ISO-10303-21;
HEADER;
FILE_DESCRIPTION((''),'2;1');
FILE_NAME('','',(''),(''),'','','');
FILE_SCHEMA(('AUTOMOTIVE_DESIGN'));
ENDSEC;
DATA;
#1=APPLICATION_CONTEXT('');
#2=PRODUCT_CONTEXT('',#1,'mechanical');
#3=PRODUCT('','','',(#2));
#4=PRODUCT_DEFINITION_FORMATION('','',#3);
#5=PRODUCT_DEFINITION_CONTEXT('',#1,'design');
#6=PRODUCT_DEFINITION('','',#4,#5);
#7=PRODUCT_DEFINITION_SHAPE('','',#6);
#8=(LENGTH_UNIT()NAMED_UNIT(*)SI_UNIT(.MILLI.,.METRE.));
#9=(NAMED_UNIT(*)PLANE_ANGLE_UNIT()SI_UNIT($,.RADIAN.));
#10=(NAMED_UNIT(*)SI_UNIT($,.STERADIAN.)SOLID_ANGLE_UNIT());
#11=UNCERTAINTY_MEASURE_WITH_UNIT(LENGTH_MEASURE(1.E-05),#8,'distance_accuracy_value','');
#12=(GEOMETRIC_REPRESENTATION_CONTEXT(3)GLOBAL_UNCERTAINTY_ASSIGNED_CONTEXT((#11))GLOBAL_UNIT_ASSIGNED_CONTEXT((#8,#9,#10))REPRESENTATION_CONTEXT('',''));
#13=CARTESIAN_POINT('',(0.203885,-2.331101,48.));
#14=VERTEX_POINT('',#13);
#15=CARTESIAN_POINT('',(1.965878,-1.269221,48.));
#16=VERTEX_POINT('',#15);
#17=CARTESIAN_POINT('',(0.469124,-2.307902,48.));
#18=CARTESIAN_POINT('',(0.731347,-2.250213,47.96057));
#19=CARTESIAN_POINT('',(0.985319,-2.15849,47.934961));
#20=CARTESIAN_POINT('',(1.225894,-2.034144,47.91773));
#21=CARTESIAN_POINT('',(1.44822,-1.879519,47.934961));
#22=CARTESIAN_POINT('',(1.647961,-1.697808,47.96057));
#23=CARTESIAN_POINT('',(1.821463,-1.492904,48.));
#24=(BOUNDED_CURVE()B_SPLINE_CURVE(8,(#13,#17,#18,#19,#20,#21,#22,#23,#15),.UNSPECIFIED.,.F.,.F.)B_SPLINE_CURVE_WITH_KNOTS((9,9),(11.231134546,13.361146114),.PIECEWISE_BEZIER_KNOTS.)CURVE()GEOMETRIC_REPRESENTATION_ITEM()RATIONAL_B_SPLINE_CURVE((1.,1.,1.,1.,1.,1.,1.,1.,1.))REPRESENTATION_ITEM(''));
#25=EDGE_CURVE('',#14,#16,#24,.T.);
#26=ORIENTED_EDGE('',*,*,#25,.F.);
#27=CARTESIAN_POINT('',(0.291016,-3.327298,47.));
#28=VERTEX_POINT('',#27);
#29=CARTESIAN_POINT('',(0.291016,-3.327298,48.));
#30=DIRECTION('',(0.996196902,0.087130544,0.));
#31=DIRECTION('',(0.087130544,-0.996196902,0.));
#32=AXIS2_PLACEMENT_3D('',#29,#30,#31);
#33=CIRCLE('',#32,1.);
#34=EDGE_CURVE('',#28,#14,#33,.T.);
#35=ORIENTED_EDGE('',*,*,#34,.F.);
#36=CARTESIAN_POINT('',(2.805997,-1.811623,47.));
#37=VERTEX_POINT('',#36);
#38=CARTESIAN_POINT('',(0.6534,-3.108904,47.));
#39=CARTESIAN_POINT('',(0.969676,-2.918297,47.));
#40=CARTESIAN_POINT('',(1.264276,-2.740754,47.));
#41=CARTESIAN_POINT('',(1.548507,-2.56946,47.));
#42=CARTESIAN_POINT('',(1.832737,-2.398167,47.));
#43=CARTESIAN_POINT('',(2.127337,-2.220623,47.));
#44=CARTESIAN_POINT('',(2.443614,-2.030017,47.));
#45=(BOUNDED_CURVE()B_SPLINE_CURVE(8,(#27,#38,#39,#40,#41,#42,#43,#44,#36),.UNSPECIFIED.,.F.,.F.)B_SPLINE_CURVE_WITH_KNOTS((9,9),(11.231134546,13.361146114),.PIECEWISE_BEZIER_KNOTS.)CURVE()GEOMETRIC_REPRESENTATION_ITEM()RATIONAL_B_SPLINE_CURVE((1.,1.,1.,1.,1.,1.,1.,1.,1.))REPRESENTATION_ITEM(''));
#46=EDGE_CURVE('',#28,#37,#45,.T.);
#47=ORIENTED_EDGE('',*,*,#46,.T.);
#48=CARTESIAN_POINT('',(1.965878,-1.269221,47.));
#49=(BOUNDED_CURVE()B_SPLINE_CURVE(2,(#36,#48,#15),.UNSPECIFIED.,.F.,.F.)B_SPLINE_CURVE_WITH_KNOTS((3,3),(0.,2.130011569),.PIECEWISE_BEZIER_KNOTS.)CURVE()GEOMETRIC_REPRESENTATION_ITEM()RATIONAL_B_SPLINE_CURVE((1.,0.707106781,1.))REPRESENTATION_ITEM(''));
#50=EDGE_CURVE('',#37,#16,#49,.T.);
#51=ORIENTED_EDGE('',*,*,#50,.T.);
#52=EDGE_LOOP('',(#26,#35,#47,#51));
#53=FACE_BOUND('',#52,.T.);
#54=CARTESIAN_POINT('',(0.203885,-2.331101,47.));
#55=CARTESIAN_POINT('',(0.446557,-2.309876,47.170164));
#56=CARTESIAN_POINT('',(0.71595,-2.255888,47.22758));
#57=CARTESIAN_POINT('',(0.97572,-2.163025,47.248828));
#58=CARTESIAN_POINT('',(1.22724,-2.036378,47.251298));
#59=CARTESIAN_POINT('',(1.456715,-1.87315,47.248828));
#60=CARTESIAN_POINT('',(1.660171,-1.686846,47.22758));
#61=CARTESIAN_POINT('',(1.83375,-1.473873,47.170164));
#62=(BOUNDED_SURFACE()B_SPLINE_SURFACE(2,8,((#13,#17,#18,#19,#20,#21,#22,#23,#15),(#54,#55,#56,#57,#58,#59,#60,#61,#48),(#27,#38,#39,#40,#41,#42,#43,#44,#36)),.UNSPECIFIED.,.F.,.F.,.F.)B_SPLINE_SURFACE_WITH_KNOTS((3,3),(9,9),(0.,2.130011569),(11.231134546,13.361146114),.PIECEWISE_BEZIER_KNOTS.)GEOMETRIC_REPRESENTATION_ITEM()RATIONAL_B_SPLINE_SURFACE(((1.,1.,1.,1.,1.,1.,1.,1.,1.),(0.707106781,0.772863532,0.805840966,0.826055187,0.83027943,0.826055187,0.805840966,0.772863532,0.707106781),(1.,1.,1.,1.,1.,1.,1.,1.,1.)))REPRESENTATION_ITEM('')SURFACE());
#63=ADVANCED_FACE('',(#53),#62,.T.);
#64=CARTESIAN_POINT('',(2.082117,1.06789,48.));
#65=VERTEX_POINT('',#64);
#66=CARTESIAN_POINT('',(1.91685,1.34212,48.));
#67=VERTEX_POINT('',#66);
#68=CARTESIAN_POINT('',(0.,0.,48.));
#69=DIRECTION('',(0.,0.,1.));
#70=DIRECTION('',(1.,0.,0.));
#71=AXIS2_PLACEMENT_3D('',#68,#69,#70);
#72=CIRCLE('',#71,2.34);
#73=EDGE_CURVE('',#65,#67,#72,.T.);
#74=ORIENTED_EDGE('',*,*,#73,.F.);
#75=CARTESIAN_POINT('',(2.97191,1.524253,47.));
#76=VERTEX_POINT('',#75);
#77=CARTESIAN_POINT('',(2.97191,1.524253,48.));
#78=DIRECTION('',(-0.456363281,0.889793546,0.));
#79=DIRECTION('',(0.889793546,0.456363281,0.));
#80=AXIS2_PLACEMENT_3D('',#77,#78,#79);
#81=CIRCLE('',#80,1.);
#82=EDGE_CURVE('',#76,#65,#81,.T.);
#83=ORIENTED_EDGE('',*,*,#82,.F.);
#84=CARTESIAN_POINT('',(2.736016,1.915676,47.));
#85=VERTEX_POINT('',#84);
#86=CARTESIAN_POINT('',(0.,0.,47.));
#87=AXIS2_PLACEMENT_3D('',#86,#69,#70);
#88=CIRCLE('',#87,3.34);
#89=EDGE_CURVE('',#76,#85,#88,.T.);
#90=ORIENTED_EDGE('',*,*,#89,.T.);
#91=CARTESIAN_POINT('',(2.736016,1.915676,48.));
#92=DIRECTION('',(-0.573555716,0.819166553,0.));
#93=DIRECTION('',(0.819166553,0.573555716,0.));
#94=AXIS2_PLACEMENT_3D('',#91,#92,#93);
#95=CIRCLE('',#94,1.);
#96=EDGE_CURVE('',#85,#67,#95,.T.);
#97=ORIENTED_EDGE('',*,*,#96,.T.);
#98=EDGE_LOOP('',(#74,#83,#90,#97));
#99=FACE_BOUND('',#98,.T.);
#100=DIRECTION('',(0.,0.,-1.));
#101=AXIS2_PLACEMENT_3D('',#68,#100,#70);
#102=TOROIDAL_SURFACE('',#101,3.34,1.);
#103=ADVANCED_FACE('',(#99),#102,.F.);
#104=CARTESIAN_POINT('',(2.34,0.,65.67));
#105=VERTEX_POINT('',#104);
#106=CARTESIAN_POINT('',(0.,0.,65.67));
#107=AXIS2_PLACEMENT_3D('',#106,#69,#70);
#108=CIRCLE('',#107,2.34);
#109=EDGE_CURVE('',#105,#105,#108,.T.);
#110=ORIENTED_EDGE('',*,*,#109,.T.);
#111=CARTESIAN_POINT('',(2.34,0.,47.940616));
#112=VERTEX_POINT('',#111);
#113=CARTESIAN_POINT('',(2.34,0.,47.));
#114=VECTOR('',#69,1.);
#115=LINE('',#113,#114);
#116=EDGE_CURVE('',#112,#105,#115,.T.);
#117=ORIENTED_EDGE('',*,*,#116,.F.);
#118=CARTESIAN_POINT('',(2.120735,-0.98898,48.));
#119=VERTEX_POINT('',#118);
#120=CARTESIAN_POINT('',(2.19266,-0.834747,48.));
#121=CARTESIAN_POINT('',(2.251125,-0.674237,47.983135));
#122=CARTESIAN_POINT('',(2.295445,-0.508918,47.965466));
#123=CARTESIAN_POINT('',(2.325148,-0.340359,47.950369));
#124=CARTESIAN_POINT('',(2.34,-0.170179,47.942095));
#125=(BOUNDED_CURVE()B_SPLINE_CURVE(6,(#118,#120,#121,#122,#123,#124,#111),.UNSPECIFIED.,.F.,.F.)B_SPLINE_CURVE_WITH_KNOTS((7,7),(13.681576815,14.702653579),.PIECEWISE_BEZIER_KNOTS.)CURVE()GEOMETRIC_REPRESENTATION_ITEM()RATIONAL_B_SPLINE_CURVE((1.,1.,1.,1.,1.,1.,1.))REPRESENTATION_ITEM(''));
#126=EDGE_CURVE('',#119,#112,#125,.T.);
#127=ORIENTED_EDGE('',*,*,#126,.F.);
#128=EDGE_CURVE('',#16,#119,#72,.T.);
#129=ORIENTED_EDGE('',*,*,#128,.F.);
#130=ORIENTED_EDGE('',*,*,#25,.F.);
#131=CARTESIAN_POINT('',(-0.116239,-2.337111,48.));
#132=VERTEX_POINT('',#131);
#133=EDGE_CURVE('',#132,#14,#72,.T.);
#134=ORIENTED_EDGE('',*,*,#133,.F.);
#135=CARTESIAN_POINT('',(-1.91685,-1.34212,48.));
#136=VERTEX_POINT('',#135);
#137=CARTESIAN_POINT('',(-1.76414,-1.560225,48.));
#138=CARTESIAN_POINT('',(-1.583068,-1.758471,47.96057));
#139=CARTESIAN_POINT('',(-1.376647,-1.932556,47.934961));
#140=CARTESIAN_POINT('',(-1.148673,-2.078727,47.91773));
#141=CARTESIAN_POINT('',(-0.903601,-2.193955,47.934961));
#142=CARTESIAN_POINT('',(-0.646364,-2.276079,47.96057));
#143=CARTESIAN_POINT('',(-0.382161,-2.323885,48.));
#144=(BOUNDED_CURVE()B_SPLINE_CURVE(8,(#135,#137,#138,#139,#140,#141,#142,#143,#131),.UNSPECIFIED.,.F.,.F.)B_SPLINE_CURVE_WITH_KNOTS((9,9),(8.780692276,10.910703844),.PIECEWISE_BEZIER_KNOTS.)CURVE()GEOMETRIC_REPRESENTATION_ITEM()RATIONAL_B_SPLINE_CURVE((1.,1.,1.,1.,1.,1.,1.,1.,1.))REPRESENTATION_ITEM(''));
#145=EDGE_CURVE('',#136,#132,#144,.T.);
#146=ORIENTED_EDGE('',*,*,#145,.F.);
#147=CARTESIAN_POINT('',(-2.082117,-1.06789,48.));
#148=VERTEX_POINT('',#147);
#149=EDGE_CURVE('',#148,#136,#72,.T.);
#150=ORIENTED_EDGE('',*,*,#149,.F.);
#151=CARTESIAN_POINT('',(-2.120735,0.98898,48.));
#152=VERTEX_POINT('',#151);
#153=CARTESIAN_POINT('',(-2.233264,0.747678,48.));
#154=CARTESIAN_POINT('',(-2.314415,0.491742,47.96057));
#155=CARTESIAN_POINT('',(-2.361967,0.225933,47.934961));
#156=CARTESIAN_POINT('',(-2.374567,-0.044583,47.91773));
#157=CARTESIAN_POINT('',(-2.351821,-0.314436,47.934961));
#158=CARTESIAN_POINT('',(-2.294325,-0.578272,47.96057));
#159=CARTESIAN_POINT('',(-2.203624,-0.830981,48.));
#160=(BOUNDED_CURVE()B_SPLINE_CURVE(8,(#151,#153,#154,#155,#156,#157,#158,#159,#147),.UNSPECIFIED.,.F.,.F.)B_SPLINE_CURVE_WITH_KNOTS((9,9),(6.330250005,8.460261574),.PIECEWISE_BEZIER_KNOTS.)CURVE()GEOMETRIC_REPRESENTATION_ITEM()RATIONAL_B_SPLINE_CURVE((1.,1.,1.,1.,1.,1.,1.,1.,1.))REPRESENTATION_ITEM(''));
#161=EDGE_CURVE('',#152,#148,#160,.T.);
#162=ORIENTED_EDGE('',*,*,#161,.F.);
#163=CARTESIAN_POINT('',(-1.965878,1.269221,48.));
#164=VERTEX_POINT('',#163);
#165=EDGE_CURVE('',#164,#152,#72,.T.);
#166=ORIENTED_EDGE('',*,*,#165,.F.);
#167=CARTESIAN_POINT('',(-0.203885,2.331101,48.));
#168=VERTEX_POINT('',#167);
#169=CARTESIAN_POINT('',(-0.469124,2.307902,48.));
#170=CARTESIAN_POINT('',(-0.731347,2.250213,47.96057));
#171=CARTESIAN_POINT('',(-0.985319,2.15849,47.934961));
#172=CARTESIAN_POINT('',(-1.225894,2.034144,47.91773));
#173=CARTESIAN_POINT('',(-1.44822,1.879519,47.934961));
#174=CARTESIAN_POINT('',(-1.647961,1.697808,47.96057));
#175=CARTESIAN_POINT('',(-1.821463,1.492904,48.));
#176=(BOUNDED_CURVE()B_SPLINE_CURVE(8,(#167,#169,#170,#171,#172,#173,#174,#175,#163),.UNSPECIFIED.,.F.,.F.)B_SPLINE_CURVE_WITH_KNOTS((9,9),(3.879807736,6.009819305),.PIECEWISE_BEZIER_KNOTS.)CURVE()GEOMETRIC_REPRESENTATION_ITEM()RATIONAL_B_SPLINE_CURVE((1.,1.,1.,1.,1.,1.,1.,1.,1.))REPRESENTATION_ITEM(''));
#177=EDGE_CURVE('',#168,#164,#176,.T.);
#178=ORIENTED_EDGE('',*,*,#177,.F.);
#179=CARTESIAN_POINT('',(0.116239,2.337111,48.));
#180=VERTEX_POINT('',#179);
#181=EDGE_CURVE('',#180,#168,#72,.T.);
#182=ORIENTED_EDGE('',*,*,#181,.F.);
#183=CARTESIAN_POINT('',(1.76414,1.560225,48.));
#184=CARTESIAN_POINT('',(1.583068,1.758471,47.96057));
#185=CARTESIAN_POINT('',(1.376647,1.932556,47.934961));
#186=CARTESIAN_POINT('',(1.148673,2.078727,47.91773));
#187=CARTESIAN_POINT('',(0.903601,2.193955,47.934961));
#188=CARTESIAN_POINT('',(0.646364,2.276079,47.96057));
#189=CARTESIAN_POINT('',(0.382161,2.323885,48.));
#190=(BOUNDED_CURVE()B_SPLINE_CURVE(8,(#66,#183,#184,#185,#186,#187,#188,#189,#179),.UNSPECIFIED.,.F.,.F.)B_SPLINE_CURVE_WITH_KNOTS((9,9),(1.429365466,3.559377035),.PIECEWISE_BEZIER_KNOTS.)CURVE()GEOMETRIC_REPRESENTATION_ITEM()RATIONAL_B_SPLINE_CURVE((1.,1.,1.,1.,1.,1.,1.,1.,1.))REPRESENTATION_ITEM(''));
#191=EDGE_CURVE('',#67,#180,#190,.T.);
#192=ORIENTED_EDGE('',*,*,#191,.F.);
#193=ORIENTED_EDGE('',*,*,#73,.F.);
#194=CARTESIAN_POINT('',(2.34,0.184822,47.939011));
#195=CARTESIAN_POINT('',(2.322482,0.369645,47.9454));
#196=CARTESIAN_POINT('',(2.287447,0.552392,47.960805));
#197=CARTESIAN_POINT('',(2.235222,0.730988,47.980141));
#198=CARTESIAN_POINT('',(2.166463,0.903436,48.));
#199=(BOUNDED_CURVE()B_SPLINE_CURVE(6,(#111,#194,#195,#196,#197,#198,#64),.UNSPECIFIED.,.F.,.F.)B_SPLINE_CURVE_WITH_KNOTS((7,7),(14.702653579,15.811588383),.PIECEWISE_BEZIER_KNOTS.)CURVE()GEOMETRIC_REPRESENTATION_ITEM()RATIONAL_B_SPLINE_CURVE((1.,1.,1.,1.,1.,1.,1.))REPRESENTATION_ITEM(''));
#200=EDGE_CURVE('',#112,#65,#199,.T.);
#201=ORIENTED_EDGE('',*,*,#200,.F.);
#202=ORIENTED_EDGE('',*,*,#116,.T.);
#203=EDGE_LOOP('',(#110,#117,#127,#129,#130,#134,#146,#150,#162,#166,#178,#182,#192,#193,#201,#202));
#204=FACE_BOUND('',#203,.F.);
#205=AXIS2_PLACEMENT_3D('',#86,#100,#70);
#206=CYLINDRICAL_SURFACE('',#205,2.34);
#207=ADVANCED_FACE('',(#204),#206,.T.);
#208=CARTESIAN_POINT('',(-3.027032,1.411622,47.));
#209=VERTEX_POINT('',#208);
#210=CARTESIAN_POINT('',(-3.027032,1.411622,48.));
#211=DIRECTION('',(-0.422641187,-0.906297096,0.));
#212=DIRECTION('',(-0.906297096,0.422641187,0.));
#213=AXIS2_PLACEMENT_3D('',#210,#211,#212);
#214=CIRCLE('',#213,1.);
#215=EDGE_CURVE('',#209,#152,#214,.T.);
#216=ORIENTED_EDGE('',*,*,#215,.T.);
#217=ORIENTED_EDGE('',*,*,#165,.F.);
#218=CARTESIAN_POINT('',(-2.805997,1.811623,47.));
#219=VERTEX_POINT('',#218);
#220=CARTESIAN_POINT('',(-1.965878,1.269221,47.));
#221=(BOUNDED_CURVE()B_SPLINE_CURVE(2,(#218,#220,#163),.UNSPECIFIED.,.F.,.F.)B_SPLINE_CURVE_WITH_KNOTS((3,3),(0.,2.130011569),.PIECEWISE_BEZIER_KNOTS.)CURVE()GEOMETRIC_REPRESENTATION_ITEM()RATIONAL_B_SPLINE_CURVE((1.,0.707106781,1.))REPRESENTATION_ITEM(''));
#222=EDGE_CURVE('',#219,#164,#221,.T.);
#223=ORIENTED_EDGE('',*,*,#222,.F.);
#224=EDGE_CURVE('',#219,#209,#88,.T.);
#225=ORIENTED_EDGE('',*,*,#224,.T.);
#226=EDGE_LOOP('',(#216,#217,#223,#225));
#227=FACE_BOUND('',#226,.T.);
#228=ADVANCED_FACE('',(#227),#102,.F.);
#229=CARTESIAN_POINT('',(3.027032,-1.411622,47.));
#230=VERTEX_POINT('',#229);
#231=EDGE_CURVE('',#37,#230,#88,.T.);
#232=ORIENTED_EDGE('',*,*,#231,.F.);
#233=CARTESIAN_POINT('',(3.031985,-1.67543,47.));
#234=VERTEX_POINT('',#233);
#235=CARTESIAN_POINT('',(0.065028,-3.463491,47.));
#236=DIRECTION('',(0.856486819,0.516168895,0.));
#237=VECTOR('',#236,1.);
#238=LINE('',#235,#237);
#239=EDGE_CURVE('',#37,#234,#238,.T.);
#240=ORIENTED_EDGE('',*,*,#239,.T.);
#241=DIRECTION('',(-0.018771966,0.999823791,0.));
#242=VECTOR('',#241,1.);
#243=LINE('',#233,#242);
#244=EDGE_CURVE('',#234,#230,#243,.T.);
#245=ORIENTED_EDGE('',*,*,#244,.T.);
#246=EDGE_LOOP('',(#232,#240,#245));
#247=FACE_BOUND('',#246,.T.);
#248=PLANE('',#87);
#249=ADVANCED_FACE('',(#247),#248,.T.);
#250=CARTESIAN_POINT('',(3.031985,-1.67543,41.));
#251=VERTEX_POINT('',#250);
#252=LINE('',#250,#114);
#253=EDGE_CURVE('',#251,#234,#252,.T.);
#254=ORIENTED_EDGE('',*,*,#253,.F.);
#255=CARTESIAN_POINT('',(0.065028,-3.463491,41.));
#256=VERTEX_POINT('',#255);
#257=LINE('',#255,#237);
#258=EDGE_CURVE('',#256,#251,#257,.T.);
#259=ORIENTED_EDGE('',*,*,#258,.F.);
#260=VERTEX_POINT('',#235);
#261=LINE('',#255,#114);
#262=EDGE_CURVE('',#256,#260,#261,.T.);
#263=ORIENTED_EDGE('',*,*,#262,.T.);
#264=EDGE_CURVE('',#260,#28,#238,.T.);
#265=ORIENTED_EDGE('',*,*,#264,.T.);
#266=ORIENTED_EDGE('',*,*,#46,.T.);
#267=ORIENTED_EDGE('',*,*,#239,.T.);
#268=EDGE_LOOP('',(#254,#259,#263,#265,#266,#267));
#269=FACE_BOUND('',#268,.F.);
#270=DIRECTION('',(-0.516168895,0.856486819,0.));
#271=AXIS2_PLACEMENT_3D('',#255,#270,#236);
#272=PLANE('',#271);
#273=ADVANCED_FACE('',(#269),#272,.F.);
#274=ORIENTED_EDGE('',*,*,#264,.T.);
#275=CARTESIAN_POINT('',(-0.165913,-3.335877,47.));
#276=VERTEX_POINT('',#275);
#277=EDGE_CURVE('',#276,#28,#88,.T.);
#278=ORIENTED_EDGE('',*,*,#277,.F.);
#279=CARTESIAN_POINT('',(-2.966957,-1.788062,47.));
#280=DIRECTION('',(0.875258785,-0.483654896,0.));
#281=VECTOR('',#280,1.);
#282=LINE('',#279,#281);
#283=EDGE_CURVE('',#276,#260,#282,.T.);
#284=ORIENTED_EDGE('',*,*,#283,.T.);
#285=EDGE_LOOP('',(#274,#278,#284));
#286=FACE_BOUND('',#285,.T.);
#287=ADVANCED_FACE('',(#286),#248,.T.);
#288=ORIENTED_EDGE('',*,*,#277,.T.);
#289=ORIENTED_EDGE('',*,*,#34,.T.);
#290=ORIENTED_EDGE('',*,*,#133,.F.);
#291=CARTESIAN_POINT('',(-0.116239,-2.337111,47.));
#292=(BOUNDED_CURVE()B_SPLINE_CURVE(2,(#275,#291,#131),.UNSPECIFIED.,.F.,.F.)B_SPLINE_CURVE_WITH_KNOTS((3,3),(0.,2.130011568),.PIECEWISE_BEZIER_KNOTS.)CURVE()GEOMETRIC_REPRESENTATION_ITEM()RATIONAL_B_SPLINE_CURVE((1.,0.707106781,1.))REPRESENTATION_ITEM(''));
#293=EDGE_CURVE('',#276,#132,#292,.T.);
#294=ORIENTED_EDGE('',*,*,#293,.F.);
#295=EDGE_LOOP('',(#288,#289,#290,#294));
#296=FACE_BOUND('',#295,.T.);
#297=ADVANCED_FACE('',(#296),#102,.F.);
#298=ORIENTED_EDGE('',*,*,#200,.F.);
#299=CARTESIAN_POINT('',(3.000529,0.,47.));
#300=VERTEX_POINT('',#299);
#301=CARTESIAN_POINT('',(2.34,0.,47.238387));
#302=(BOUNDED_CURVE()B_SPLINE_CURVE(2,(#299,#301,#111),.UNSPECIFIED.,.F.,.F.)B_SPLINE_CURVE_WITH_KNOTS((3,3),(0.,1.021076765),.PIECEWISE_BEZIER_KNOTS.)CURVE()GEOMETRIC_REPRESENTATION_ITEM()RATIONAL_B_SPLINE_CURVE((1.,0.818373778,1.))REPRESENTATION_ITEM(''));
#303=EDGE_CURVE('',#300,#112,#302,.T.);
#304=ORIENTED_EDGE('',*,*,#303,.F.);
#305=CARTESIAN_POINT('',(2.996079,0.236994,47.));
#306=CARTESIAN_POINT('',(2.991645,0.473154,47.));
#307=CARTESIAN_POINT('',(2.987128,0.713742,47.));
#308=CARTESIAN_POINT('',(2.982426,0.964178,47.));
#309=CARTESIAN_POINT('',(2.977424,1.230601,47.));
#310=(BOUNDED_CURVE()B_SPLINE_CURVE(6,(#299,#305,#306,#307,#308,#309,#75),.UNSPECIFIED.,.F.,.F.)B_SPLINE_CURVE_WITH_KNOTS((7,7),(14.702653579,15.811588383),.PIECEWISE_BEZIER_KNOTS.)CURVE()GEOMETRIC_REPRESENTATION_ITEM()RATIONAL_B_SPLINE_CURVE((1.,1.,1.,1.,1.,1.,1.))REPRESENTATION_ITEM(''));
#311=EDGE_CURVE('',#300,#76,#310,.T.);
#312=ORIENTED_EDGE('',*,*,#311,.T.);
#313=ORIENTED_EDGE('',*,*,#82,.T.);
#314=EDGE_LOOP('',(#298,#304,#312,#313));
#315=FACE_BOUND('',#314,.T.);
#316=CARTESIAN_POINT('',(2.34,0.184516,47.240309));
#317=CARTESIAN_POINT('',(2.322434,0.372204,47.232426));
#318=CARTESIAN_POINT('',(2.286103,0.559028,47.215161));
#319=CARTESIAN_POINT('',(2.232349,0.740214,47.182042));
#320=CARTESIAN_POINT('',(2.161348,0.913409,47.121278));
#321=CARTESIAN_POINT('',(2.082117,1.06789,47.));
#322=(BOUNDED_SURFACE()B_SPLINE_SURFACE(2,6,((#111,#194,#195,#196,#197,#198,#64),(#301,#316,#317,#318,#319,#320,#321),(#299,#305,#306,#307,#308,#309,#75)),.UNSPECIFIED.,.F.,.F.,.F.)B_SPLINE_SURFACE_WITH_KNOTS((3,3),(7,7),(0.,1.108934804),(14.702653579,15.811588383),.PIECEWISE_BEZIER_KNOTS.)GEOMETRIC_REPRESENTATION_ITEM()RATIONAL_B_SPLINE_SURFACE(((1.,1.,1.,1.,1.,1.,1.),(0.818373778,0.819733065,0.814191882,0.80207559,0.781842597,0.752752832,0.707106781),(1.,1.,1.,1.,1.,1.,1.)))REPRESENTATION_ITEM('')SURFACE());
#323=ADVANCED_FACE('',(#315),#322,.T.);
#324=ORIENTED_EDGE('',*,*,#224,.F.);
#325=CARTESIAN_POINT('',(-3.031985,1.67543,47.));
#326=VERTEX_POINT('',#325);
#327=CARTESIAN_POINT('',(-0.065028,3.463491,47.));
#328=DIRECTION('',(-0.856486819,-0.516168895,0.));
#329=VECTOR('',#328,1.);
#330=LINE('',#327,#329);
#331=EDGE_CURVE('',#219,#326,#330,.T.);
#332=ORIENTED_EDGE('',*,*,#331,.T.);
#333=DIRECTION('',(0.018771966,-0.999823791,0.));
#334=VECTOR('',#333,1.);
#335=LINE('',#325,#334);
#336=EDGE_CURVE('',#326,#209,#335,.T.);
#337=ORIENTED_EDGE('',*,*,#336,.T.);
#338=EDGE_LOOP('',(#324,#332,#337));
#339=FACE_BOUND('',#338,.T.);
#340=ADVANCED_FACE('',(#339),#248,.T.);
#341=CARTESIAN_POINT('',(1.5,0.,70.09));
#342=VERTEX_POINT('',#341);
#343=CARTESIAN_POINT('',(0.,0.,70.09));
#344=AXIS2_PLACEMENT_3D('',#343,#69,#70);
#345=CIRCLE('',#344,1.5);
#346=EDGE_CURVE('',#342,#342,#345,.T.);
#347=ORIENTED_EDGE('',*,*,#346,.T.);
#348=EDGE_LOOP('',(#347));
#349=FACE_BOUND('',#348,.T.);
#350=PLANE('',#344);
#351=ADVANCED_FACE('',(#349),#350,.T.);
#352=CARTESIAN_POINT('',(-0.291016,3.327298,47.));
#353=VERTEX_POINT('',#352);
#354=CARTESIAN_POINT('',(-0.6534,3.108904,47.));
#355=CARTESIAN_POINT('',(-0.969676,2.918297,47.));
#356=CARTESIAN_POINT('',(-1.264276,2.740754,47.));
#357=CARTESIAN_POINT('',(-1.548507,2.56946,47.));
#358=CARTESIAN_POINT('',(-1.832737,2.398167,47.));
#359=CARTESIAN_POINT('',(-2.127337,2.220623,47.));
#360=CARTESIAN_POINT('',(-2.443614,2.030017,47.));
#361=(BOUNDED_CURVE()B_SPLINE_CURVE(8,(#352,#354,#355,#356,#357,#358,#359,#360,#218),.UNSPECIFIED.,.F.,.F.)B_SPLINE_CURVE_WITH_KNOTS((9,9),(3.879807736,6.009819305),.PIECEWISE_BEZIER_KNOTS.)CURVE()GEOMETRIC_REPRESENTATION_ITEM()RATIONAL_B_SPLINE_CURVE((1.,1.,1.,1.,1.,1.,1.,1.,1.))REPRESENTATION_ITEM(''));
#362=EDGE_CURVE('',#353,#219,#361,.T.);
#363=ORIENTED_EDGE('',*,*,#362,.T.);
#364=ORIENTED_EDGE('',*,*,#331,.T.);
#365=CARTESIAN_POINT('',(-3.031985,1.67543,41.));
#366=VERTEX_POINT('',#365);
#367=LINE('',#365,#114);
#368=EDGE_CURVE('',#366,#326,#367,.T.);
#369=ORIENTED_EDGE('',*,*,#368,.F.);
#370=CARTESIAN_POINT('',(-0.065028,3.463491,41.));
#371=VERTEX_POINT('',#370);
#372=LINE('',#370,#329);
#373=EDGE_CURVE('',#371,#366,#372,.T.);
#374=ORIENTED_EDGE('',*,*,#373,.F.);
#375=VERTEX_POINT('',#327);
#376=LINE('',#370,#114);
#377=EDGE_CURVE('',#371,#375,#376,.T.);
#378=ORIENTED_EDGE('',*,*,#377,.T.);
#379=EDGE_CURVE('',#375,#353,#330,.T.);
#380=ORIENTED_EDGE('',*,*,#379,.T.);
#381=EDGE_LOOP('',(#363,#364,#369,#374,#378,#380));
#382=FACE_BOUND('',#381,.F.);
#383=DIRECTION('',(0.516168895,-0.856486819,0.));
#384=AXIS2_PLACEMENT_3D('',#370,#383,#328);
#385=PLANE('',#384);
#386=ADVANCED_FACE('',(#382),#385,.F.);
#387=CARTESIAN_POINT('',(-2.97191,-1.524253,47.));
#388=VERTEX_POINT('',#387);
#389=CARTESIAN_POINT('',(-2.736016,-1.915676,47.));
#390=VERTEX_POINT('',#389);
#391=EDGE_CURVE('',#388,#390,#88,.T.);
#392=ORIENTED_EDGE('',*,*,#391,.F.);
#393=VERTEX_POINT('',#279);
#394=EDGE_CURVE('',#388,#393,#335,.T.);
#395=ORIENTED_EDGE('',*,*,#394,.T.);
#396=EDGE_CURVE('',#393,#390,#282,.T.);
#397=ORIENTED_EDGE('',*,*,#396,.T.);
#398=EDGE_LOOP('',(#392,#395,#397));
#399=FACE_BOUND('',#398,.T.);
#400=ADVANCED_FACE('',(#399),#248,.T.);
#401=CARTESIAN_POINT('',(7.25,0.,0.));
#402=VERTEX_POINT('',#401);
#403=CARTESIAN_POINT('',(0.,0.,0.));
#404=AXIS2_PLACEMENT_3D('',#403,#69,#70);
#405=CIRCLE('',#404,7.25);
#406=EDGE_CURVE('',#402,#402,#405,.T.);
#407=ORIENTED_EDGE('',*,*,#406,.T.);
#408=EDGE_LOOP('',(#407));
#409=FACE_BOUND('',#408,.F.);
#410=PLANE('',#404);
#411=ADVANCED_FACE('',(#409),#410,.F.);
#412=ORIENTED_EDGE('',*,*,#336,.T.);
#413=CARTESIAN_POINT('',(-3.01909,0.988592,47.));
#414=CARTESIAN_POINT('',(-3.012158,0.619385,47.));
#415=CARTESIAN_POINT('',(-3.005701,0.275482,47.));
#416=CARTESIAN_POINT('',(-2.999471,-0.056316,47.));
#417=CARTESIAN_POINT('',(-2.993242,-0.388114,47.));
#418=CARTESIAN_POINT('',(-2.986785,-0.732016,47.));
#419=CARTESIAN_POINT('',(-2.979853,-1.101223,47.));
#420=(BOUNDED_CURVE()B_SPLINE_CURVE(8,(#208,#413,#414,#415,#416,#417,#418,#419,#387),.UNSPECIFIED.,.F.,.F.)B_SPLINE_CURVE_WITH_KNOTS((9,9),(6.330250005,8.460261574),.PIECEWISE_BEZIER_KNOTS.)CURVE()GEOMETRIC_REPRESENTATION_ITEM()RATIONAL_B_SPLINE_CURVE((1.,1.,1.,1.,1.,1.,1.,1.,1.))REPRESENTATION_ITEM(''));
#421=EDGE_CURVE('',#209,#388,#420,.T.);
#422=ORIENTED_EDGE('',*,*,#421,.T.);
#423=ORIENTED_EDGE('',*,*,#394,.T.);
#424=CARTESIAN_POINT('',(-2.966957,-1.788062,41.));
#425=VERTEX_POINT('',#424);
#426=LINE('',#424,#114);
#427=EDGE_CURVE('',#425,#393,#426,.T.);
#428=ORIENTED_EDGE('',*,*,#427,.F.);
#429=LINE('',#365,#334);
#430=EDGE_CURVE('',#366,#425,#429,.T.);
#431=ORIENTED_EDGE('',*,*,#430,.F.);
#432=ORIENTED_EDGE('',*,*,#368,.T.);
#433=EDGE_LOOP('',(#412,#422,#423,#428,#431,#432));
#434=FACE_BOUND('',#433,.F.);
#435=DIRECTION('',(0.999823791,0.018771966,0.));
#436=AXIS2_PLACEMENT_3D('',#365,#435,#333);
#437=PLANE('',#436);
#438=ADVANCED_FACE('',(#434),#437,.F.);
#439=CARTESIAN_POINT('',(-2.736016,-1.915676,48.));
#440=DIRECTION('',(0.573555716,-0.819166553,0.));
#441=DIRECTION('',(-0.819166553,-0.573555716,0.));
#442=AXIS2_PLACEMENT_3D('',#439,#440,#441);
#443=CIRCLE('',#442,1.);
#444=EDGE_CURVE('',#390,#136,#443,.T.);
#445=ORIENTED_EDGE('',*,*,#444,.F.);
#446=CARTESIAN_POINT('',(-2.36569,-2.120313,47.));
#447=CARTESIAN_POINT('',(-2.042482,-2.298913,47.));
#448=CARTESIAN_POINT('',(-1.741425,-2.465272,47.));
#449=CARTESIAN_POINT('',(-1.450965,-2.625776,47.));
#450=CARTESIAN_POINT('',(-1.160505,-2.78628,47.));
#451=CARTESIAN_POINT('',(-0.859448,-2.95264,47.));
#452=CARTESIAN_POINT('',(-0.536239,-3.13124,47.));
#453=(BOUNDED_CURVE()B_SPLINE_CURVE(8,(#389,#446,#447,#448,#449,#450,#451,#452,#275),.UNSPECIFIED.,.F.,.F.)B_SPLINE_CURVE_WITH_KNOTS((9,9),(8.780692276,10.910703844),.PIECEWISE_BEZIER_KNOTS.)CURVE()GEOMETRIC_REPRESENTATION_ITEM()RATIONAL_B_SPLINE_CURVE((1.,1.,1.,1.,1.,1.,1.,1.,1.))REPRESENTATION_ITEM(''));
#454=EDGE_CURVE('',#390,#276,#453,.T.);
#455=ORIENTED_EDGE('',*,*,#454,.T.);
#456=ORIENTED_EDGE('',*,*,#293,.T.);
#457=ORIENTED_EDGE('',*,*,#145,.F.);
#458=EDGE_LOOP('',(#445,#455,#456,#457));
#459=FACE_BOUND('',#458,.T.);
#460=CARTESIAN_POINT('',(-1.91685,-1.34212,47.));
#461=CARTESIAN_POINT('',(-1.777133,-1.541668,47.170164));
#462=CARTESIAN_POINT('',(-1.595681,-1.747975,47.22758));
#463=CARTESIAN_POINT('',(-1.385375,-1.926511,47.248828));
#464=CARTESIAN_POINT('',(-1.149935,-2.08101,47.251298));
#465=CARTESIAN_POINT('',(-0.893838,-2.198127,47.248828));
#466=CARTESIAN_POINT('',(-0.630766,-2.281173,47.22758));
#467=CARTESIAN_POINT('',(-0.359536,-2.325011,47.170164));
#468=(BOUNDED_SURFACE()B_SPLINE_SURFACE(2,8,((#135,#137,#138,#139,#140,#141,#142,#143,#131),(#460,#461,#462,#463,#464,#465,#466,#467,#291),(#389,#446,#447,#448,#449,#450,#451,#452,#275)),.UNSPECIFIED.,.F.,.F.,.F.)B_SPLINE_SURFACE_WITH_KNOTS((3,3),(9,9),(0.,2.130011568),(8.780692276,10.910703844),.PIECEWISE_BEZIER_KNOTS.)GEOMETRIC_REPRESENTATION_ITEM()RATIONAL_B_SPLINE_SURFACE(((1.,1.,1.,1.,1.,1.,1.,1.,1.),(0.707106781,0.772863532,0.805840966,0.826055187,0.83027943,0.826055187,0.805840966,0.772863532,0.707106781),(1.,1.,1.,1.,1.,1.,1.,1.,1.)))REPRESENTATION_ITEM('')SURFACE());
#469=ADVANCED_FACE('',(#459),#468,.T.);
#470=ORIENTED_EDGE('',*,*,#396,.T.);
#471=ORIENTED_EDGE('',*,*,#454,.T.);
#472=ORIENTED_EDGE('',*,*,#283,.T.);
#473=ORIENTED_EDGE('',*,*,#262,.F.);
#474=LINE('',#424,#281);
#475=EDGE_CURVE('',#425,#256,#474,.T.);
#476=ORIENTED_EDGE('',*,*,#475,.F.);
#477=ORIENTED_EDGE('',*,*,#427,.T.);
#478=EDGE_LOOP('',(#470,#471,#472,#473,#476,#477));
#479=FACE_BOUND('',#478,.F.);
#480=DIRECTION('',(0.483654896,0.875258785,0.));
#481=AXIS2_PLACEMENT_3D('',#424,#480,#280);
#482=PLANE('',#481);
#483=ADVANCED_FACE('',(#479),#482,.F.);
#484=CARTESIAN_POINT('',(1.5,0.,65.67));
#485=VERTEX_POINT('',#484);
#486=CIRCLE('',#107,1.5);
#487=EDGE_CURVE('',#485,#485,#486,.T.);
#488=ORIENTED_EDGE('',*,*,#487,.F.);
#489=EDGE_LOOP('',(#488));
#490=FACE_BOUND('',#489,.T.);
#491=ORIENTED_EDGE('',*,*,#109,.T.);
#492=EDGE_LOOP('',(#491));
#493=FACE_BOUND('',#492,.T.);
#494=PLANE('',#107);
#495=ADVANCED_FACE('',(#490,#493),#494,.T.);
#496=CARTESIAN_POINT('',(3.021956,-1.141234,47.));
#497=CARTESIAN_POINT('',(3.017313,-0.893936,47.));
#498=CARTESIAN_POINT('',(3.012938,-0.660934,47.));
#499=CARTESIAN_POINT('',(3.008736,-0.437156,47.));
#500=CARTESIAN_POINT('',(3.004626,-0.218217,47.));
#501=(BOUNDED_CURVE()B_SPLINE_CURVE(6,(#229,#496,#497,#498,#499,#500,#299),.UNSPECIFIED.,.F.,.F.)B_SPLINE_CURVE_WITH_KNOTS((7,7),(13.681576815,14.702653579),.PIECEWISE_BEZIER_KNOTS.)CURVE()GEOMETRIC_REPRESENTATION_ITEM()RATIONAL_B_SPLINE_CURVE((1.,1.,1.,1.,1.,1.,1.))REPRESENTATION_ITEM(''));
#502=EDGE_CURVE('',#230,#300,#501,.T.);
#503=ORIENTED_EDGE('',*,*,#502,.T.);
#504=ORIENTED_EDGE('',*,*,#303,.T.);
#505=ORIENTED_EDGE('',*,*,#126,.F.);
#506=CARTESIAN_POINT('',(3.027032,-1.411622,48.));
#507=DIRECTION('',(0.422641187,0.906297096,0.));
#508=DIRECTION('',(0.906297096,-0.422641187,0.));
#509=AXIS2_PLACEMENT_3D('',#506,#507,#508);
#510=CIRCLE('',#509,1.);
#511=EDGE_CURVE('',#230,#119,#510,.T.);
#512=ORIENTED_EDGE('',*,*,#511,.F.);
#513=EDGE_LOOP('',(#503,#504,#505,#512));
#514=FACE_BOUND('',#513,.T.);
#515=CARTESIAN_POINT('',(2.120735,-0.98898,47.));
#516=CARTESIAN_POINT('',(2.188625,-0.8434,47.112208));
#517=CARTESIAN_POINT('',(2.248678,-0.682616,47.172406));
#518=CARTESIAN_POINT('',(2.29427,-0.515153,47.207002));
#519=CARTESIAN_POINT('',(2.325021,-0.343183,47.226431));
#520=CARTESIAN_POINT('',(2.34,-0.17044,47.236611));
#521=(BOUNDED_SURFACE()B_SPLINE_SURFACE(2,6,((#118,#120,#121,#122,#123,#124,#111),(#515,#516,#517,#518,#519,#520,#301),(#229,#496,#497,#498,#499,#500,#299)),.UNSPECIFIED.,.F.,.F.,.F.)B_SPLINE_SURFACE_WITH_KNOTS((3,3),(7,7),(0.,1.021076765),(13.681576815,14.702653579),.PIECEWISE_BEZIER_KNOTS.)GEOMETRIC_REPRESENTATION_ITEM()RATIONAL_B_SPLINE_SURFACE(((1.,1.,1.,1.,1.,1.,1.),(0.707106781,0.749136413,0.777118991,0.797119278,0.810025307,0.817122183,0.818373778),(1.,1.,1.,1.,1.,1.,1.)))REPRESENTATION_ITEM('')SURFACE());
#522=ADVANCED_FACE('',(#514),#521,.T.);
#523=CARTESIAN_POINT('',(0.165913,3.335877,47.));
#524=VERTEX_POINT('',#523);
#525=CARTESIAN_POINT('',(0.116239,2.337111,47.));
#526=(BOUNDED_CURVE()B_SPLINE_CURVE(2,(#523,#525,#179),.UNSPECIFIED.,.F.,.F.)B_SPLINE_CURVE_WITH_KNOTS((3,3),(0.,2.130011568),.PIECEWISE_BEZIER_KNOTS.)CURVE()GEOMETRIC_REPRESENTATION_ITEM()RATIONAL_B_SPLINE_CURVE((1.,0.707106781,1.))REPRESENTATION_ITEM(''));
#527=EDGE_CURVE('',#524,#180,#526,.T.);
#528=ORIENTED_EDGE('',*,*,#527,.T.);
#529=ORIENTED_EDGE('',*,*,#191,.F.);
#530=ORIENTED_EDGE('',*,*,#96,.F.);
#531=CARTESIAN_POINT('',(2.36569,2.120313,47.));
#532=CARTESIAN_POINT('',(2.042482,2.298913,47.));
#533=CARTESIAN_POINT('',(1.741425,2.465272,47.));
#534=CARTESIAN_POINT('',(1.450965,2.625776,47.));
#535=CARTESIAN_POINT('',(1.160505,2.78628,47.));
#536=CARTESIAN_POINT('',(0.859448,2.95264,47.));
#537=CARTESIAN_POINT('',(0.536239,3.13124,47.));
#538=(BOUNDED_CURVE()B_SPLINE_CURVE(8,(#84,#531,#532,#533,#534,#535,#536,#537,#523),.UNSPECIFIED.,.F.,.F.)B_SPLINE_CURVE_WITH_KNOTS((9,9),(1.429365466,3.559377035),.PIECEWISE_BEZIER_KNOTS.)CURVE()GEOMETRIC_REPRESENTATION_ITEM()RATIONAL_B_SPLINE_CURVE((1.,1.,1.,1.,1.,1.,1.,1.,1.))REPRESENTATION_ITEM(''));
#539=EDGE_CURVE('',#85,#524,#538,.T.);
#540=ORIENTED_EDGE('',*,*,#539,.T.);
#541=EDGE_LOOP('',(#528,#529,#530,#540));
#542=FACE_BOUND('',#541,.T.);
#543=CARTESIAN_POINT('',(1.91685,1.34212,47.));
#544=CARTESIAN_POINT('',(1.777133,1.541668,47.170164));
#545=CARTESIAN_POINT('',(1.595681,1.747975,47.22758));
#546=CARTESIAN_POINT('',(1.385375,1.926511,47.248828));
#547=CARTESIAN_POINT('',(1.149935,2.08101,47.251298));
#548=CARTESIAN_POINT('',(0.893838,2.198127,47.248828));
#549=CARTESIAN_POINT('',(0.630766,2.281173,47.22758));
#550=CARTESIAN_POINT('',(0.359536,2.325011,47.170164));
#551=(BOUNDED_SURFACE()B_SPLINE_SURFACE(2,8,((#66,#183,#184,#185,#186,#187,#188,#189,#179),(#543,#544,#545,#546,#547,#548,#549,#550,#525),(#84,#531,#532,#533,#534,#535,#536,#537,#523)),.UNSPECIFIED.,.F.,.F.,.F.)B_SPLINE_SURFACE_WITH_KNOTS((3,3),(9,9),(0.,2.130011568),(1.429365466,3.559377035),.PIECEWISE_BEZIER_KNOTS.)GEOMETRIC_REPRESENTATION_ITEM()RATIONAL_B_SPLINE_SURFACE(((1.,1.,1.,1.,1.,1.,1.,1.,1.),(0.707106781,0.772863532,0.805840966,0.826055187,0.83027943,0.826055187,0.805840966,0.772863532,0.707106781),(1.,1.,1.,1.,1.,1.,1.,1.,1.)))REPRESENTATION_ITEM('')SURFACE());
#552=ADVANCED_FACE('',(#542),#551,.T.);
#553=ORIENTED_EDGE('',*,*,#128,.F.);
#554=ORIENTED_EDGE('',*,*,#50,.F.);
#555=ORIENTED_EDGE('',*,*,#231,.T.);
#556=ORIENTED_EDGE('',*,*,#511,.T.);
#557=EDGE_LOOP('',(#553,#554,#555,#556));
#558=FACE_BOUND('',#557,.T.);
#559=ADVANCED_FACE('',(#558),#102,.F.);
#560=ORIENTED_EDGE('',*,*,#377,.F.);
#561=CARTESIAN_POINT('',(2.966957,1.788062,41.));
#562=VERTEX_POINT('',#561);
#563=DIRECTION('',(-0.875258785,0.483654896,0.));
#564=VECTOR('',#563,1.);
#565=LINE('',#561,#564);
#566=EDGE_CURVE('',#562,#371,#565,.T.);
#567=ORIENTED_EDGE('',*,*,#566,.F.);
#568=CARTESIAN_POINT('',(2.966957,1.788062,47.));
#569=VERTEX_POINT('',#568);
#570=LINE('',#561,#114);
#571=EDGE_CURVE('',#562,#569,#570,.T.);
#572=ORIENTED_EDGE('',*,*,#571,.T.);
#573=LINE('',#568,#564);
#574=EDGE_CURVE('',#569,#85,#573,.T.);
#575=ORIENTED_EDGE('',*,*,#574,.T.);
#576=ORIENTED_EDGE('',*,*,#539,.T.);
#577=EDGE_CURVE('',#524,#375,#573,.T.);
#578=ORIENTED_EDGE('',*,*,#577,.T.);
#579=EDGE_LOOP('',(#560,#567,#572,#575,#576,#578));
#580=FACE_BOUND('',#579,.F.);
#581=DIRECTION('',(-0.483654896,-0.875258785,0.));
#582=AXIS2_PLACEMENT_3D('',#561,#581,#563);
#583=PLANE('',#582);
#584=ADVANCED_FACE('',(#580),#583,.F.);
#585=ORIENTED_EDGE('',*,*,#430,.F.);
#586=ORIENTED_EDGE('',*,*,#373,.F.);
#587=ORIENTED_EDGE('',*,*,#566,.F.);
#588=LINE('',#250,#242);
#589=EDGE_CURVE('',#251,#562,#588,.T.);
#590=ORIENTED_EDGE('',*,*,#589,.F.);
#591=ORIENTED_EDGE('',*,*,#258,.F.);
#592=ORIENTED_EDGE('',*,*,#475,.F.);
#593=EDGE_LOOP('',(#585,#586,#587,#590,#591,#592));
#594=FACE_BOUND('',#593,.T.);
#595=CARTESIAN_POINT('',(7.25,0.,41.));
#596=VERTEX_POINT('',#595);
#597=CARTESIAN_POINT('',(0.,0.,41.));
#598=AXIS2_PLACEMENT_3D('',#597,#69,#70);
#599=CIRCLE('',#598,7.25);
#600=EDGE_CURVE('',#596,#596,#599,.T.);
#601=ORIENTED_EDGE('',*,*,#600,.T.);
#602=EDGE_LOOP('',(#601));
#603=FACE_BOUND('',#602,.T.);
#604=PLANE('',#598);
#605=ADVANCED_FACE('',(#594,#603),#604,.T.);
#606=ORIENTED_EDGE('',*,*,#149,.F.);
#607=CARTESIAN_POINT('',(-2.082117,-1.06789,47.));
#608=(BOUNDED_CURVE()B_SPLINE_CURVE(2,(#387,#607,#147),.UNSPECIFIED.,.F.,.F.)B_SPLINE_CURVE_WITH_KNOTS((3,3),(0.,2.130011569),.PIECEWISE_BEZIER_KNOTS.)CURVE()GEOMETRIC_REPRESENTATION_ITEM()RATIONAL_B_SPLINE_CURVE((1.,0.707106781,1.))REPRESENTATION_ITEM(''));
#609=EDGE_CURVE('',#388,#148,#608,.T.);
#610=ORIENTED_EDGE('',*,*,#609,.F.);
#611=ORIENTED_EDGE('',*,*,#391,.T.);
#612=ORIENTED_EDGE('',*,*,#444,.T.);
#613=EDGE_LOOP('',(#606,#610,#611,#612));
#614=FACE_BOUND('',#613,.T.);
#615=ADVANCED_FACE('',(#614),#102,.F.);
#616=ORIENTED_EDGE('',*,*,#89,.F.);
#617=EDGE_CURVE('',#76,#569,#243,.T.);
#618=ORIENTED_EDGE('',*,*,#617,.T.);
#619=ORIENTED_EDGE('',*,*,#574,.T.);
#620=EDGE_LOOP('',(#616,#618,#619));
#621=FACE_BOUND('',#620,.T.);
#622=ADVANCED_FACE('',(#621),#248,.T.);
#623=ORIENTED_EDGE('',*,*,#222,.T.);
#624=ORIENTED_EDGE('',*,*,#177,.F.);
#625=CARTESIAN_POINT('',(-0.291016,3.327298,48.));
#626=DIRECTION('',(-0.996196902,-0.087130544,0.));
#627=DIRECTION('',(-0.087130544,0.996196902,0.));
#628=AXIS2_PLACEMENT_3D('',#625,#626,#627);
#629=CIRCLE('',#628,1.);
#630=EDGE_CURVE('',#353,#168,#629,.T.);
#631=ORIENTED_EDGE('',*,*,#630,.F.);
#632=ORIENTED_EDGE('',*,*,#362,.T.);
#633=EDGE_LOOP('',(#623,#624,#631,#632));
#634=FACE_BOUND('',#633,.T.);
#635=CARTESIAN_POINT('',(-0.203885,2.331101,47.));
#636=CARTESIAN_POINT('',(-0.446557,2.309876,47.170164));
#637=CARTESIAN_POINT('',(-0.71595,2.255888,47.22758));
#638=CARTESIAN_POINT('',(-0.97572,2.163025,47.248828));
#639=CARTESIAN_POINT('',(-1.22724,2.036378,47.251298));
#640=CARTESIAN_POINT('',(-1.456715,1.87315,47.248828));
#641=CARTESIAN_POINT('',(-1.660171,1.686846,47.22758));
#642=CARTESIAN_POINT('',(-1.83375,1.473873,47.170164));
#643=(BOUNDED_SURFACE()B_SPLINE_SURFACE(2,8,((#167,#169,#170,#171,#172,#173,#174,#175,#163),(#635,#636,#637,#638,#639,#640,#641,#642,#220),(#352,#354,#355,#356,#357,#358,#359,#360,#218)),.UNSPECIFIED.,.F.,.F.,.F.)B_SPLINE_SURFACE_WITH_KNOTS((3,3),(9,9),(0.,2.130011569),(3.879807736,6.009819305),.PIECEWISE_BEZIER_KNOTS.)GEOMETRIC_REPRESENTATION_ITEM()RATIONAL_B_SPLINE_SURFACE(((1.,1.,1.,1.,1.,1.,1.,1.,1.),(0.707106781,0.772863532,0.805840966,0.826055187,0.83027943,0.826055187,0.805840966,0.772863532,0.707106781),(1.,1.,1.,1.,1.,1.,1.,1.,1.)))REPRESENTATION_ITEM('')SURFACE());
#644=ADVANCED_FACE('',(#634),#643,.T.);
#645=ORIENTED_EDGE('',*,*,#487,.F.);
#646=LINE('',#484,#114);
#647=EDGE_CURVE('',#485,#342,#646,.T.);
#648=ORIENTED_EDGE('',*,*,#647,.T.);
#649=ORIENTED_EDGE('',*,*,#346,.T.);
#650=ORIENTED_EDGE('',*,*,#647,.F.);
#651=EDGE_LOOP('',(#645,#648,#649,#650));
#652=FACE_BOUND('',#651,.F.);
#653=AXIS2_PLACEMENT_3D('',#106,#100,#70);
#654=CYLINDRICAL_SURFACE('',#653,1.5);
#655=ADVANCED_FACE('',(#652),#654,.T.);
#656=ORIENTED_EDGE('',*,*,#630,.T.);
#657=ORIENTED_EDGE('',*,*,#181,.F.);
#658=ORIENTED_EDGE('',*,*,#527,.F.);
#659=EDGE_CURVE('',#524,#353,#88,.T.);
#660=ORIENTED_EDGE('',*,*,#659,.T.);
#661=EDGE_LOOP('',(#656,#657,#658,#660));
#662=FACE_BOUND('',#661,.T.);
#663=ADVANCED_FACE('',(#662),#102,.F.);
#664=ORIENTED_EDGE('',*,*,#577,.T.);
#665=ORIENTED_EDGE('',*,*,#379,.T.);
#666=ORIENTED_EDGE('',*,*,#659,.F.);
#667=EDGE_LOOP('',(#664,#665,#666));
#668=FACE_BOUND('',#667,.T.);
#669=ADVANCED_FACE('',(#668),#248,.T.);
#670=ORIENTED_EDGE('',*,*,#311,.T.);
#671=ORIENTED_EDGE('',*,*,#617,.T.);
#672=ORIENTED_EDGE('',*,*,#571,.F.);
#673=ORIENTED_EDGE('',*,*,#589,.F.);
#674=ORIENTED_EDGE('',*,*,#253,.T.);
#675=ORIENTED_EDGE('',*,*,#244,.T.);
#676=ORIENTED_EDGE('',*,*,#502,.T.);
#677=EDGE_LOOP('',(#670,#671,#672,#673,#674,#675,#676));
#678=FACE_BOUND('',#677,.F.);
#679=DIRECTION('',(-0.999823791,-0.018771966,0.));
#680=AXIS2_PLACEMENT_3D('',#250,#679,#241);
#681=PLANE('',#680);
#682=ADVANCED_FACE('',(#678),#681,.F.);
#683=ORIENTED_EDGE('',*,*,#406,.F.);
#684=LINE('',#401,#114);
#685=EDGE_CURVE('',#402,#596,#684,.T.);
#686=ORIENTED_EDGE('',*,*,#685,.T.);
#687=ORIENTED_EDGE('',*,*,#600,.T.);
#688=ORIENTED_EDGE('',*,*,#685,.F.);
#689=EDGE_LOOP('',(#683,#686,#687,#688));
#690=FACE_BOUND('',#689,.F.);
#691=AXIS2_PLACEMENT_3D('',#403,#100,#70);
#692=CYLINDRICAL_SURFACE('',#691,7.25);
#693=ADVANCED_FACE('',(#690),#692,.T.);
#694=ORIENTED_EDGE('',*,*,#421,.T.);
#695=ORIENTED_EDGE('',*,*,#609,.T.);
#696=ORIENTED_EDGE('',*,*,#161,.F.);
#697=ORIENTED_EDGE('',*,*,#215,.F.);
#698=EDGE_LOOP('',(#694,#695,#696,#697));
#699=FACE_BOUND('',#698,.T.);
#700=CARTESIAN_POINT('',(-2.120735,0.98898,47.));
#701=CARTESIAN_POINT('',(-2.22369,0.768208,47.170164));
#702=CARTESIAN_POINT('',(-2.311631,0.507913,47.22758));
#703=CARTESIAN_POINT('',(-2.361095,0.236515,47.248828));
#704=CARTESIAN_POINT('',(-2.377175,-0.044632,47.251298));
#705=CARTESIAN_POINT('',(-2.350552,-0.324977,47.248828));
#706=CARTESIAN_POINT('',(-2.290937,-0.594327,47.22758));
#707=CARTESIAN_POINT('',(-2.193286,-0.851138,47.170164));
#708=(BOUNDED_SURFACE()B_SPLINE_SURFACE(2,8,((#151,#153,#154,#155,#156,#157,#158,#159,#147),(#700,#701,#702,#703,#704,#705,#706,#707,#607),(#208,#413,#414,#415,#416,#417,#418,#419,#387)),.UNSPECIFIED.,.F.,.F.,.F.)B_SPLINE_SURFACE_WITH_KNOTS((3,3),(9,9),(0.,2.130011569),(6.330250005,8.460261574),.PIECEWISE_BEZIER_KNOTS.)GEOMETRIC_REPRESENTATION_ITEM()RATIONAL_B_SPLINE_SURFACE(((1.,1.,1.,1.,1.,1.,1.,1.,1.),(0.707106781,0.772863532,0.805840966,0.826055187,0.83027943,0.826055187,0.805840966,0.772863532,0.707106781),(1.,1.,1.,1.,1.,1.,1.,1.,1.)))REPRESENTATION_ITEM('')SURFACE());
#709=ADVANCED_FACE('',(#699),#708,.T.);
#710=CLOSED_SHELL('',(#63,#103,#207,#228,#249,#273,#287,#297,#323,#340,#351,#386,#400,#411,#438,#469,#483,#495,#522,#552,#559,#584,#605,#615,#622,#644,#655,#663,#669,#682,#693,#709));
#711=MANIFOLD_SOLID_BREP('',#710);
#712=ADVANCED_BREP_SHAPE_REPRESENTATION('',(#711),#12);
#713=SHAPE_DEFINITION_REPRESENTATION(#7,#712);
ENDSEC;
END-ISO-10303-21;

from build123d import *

# Parameters (mm, degrees)
SKETCH2_R           = 7.25
BOSS_EXTRUDE1_DEPTH = 41
BOSS_EXTRUDE2_DEPTH = 6
SKETCH4_R           = 2.34
BOSS_EXTRUDE3_DEPTH = 18.67
FILLET1_R           = 1
SKETCH5_R           = 1.5
BOSS_EXTRUDE4_DEPTH = 4.42


with BuildPart() as part:
    # Sketch2 → Boss-Extrude1 (new body)
    with BuildSketch(Plane.XY):
        Circle(SKETCH2_R)
    extrude(amount=BOSS_EXTRUDE1_DEPTH)

    # Sketch3 → Boss-Extrude2 (add)
    with BuildSketch(Plane.XY.offset(41)):
        Polygon((3.031985372, -1.675429707), (2.966957375, 1.788061503), (-0.065027998, 3.46349121), (-3.031985372, 1.675429707), (-2.966957375, -1.788061503), (0.065027998, -3.46349121), align=None)
    extrude(amount=BOSS_EXTRUDE2_DEPTH)

    # Sketch4 → Boss-Extrude3 (add)
    with BuildSketch(Plane.XY.offset(47)):
        Circle(SKETCH4_R)
    extrude(amount=BOSS_EXTRUDE3_DEPTH)

    # Fillet1
    fillet1_edges = [part.edges().sort_by_distance(p)[0] for p in [
        (-2.34, 0, 47),
    ]]
    fillet(fillet1_edges, radius=FILLET1_R)

    # Sketch5 → Boss-Extrude4 (add)
    with BuildSketch(Plane.XY.offset(65.67)):
        Circle(SKETCH5_R)
    extrude(amount=BOSS_EXTRUDE4_DEPTH)


solid = part.part
